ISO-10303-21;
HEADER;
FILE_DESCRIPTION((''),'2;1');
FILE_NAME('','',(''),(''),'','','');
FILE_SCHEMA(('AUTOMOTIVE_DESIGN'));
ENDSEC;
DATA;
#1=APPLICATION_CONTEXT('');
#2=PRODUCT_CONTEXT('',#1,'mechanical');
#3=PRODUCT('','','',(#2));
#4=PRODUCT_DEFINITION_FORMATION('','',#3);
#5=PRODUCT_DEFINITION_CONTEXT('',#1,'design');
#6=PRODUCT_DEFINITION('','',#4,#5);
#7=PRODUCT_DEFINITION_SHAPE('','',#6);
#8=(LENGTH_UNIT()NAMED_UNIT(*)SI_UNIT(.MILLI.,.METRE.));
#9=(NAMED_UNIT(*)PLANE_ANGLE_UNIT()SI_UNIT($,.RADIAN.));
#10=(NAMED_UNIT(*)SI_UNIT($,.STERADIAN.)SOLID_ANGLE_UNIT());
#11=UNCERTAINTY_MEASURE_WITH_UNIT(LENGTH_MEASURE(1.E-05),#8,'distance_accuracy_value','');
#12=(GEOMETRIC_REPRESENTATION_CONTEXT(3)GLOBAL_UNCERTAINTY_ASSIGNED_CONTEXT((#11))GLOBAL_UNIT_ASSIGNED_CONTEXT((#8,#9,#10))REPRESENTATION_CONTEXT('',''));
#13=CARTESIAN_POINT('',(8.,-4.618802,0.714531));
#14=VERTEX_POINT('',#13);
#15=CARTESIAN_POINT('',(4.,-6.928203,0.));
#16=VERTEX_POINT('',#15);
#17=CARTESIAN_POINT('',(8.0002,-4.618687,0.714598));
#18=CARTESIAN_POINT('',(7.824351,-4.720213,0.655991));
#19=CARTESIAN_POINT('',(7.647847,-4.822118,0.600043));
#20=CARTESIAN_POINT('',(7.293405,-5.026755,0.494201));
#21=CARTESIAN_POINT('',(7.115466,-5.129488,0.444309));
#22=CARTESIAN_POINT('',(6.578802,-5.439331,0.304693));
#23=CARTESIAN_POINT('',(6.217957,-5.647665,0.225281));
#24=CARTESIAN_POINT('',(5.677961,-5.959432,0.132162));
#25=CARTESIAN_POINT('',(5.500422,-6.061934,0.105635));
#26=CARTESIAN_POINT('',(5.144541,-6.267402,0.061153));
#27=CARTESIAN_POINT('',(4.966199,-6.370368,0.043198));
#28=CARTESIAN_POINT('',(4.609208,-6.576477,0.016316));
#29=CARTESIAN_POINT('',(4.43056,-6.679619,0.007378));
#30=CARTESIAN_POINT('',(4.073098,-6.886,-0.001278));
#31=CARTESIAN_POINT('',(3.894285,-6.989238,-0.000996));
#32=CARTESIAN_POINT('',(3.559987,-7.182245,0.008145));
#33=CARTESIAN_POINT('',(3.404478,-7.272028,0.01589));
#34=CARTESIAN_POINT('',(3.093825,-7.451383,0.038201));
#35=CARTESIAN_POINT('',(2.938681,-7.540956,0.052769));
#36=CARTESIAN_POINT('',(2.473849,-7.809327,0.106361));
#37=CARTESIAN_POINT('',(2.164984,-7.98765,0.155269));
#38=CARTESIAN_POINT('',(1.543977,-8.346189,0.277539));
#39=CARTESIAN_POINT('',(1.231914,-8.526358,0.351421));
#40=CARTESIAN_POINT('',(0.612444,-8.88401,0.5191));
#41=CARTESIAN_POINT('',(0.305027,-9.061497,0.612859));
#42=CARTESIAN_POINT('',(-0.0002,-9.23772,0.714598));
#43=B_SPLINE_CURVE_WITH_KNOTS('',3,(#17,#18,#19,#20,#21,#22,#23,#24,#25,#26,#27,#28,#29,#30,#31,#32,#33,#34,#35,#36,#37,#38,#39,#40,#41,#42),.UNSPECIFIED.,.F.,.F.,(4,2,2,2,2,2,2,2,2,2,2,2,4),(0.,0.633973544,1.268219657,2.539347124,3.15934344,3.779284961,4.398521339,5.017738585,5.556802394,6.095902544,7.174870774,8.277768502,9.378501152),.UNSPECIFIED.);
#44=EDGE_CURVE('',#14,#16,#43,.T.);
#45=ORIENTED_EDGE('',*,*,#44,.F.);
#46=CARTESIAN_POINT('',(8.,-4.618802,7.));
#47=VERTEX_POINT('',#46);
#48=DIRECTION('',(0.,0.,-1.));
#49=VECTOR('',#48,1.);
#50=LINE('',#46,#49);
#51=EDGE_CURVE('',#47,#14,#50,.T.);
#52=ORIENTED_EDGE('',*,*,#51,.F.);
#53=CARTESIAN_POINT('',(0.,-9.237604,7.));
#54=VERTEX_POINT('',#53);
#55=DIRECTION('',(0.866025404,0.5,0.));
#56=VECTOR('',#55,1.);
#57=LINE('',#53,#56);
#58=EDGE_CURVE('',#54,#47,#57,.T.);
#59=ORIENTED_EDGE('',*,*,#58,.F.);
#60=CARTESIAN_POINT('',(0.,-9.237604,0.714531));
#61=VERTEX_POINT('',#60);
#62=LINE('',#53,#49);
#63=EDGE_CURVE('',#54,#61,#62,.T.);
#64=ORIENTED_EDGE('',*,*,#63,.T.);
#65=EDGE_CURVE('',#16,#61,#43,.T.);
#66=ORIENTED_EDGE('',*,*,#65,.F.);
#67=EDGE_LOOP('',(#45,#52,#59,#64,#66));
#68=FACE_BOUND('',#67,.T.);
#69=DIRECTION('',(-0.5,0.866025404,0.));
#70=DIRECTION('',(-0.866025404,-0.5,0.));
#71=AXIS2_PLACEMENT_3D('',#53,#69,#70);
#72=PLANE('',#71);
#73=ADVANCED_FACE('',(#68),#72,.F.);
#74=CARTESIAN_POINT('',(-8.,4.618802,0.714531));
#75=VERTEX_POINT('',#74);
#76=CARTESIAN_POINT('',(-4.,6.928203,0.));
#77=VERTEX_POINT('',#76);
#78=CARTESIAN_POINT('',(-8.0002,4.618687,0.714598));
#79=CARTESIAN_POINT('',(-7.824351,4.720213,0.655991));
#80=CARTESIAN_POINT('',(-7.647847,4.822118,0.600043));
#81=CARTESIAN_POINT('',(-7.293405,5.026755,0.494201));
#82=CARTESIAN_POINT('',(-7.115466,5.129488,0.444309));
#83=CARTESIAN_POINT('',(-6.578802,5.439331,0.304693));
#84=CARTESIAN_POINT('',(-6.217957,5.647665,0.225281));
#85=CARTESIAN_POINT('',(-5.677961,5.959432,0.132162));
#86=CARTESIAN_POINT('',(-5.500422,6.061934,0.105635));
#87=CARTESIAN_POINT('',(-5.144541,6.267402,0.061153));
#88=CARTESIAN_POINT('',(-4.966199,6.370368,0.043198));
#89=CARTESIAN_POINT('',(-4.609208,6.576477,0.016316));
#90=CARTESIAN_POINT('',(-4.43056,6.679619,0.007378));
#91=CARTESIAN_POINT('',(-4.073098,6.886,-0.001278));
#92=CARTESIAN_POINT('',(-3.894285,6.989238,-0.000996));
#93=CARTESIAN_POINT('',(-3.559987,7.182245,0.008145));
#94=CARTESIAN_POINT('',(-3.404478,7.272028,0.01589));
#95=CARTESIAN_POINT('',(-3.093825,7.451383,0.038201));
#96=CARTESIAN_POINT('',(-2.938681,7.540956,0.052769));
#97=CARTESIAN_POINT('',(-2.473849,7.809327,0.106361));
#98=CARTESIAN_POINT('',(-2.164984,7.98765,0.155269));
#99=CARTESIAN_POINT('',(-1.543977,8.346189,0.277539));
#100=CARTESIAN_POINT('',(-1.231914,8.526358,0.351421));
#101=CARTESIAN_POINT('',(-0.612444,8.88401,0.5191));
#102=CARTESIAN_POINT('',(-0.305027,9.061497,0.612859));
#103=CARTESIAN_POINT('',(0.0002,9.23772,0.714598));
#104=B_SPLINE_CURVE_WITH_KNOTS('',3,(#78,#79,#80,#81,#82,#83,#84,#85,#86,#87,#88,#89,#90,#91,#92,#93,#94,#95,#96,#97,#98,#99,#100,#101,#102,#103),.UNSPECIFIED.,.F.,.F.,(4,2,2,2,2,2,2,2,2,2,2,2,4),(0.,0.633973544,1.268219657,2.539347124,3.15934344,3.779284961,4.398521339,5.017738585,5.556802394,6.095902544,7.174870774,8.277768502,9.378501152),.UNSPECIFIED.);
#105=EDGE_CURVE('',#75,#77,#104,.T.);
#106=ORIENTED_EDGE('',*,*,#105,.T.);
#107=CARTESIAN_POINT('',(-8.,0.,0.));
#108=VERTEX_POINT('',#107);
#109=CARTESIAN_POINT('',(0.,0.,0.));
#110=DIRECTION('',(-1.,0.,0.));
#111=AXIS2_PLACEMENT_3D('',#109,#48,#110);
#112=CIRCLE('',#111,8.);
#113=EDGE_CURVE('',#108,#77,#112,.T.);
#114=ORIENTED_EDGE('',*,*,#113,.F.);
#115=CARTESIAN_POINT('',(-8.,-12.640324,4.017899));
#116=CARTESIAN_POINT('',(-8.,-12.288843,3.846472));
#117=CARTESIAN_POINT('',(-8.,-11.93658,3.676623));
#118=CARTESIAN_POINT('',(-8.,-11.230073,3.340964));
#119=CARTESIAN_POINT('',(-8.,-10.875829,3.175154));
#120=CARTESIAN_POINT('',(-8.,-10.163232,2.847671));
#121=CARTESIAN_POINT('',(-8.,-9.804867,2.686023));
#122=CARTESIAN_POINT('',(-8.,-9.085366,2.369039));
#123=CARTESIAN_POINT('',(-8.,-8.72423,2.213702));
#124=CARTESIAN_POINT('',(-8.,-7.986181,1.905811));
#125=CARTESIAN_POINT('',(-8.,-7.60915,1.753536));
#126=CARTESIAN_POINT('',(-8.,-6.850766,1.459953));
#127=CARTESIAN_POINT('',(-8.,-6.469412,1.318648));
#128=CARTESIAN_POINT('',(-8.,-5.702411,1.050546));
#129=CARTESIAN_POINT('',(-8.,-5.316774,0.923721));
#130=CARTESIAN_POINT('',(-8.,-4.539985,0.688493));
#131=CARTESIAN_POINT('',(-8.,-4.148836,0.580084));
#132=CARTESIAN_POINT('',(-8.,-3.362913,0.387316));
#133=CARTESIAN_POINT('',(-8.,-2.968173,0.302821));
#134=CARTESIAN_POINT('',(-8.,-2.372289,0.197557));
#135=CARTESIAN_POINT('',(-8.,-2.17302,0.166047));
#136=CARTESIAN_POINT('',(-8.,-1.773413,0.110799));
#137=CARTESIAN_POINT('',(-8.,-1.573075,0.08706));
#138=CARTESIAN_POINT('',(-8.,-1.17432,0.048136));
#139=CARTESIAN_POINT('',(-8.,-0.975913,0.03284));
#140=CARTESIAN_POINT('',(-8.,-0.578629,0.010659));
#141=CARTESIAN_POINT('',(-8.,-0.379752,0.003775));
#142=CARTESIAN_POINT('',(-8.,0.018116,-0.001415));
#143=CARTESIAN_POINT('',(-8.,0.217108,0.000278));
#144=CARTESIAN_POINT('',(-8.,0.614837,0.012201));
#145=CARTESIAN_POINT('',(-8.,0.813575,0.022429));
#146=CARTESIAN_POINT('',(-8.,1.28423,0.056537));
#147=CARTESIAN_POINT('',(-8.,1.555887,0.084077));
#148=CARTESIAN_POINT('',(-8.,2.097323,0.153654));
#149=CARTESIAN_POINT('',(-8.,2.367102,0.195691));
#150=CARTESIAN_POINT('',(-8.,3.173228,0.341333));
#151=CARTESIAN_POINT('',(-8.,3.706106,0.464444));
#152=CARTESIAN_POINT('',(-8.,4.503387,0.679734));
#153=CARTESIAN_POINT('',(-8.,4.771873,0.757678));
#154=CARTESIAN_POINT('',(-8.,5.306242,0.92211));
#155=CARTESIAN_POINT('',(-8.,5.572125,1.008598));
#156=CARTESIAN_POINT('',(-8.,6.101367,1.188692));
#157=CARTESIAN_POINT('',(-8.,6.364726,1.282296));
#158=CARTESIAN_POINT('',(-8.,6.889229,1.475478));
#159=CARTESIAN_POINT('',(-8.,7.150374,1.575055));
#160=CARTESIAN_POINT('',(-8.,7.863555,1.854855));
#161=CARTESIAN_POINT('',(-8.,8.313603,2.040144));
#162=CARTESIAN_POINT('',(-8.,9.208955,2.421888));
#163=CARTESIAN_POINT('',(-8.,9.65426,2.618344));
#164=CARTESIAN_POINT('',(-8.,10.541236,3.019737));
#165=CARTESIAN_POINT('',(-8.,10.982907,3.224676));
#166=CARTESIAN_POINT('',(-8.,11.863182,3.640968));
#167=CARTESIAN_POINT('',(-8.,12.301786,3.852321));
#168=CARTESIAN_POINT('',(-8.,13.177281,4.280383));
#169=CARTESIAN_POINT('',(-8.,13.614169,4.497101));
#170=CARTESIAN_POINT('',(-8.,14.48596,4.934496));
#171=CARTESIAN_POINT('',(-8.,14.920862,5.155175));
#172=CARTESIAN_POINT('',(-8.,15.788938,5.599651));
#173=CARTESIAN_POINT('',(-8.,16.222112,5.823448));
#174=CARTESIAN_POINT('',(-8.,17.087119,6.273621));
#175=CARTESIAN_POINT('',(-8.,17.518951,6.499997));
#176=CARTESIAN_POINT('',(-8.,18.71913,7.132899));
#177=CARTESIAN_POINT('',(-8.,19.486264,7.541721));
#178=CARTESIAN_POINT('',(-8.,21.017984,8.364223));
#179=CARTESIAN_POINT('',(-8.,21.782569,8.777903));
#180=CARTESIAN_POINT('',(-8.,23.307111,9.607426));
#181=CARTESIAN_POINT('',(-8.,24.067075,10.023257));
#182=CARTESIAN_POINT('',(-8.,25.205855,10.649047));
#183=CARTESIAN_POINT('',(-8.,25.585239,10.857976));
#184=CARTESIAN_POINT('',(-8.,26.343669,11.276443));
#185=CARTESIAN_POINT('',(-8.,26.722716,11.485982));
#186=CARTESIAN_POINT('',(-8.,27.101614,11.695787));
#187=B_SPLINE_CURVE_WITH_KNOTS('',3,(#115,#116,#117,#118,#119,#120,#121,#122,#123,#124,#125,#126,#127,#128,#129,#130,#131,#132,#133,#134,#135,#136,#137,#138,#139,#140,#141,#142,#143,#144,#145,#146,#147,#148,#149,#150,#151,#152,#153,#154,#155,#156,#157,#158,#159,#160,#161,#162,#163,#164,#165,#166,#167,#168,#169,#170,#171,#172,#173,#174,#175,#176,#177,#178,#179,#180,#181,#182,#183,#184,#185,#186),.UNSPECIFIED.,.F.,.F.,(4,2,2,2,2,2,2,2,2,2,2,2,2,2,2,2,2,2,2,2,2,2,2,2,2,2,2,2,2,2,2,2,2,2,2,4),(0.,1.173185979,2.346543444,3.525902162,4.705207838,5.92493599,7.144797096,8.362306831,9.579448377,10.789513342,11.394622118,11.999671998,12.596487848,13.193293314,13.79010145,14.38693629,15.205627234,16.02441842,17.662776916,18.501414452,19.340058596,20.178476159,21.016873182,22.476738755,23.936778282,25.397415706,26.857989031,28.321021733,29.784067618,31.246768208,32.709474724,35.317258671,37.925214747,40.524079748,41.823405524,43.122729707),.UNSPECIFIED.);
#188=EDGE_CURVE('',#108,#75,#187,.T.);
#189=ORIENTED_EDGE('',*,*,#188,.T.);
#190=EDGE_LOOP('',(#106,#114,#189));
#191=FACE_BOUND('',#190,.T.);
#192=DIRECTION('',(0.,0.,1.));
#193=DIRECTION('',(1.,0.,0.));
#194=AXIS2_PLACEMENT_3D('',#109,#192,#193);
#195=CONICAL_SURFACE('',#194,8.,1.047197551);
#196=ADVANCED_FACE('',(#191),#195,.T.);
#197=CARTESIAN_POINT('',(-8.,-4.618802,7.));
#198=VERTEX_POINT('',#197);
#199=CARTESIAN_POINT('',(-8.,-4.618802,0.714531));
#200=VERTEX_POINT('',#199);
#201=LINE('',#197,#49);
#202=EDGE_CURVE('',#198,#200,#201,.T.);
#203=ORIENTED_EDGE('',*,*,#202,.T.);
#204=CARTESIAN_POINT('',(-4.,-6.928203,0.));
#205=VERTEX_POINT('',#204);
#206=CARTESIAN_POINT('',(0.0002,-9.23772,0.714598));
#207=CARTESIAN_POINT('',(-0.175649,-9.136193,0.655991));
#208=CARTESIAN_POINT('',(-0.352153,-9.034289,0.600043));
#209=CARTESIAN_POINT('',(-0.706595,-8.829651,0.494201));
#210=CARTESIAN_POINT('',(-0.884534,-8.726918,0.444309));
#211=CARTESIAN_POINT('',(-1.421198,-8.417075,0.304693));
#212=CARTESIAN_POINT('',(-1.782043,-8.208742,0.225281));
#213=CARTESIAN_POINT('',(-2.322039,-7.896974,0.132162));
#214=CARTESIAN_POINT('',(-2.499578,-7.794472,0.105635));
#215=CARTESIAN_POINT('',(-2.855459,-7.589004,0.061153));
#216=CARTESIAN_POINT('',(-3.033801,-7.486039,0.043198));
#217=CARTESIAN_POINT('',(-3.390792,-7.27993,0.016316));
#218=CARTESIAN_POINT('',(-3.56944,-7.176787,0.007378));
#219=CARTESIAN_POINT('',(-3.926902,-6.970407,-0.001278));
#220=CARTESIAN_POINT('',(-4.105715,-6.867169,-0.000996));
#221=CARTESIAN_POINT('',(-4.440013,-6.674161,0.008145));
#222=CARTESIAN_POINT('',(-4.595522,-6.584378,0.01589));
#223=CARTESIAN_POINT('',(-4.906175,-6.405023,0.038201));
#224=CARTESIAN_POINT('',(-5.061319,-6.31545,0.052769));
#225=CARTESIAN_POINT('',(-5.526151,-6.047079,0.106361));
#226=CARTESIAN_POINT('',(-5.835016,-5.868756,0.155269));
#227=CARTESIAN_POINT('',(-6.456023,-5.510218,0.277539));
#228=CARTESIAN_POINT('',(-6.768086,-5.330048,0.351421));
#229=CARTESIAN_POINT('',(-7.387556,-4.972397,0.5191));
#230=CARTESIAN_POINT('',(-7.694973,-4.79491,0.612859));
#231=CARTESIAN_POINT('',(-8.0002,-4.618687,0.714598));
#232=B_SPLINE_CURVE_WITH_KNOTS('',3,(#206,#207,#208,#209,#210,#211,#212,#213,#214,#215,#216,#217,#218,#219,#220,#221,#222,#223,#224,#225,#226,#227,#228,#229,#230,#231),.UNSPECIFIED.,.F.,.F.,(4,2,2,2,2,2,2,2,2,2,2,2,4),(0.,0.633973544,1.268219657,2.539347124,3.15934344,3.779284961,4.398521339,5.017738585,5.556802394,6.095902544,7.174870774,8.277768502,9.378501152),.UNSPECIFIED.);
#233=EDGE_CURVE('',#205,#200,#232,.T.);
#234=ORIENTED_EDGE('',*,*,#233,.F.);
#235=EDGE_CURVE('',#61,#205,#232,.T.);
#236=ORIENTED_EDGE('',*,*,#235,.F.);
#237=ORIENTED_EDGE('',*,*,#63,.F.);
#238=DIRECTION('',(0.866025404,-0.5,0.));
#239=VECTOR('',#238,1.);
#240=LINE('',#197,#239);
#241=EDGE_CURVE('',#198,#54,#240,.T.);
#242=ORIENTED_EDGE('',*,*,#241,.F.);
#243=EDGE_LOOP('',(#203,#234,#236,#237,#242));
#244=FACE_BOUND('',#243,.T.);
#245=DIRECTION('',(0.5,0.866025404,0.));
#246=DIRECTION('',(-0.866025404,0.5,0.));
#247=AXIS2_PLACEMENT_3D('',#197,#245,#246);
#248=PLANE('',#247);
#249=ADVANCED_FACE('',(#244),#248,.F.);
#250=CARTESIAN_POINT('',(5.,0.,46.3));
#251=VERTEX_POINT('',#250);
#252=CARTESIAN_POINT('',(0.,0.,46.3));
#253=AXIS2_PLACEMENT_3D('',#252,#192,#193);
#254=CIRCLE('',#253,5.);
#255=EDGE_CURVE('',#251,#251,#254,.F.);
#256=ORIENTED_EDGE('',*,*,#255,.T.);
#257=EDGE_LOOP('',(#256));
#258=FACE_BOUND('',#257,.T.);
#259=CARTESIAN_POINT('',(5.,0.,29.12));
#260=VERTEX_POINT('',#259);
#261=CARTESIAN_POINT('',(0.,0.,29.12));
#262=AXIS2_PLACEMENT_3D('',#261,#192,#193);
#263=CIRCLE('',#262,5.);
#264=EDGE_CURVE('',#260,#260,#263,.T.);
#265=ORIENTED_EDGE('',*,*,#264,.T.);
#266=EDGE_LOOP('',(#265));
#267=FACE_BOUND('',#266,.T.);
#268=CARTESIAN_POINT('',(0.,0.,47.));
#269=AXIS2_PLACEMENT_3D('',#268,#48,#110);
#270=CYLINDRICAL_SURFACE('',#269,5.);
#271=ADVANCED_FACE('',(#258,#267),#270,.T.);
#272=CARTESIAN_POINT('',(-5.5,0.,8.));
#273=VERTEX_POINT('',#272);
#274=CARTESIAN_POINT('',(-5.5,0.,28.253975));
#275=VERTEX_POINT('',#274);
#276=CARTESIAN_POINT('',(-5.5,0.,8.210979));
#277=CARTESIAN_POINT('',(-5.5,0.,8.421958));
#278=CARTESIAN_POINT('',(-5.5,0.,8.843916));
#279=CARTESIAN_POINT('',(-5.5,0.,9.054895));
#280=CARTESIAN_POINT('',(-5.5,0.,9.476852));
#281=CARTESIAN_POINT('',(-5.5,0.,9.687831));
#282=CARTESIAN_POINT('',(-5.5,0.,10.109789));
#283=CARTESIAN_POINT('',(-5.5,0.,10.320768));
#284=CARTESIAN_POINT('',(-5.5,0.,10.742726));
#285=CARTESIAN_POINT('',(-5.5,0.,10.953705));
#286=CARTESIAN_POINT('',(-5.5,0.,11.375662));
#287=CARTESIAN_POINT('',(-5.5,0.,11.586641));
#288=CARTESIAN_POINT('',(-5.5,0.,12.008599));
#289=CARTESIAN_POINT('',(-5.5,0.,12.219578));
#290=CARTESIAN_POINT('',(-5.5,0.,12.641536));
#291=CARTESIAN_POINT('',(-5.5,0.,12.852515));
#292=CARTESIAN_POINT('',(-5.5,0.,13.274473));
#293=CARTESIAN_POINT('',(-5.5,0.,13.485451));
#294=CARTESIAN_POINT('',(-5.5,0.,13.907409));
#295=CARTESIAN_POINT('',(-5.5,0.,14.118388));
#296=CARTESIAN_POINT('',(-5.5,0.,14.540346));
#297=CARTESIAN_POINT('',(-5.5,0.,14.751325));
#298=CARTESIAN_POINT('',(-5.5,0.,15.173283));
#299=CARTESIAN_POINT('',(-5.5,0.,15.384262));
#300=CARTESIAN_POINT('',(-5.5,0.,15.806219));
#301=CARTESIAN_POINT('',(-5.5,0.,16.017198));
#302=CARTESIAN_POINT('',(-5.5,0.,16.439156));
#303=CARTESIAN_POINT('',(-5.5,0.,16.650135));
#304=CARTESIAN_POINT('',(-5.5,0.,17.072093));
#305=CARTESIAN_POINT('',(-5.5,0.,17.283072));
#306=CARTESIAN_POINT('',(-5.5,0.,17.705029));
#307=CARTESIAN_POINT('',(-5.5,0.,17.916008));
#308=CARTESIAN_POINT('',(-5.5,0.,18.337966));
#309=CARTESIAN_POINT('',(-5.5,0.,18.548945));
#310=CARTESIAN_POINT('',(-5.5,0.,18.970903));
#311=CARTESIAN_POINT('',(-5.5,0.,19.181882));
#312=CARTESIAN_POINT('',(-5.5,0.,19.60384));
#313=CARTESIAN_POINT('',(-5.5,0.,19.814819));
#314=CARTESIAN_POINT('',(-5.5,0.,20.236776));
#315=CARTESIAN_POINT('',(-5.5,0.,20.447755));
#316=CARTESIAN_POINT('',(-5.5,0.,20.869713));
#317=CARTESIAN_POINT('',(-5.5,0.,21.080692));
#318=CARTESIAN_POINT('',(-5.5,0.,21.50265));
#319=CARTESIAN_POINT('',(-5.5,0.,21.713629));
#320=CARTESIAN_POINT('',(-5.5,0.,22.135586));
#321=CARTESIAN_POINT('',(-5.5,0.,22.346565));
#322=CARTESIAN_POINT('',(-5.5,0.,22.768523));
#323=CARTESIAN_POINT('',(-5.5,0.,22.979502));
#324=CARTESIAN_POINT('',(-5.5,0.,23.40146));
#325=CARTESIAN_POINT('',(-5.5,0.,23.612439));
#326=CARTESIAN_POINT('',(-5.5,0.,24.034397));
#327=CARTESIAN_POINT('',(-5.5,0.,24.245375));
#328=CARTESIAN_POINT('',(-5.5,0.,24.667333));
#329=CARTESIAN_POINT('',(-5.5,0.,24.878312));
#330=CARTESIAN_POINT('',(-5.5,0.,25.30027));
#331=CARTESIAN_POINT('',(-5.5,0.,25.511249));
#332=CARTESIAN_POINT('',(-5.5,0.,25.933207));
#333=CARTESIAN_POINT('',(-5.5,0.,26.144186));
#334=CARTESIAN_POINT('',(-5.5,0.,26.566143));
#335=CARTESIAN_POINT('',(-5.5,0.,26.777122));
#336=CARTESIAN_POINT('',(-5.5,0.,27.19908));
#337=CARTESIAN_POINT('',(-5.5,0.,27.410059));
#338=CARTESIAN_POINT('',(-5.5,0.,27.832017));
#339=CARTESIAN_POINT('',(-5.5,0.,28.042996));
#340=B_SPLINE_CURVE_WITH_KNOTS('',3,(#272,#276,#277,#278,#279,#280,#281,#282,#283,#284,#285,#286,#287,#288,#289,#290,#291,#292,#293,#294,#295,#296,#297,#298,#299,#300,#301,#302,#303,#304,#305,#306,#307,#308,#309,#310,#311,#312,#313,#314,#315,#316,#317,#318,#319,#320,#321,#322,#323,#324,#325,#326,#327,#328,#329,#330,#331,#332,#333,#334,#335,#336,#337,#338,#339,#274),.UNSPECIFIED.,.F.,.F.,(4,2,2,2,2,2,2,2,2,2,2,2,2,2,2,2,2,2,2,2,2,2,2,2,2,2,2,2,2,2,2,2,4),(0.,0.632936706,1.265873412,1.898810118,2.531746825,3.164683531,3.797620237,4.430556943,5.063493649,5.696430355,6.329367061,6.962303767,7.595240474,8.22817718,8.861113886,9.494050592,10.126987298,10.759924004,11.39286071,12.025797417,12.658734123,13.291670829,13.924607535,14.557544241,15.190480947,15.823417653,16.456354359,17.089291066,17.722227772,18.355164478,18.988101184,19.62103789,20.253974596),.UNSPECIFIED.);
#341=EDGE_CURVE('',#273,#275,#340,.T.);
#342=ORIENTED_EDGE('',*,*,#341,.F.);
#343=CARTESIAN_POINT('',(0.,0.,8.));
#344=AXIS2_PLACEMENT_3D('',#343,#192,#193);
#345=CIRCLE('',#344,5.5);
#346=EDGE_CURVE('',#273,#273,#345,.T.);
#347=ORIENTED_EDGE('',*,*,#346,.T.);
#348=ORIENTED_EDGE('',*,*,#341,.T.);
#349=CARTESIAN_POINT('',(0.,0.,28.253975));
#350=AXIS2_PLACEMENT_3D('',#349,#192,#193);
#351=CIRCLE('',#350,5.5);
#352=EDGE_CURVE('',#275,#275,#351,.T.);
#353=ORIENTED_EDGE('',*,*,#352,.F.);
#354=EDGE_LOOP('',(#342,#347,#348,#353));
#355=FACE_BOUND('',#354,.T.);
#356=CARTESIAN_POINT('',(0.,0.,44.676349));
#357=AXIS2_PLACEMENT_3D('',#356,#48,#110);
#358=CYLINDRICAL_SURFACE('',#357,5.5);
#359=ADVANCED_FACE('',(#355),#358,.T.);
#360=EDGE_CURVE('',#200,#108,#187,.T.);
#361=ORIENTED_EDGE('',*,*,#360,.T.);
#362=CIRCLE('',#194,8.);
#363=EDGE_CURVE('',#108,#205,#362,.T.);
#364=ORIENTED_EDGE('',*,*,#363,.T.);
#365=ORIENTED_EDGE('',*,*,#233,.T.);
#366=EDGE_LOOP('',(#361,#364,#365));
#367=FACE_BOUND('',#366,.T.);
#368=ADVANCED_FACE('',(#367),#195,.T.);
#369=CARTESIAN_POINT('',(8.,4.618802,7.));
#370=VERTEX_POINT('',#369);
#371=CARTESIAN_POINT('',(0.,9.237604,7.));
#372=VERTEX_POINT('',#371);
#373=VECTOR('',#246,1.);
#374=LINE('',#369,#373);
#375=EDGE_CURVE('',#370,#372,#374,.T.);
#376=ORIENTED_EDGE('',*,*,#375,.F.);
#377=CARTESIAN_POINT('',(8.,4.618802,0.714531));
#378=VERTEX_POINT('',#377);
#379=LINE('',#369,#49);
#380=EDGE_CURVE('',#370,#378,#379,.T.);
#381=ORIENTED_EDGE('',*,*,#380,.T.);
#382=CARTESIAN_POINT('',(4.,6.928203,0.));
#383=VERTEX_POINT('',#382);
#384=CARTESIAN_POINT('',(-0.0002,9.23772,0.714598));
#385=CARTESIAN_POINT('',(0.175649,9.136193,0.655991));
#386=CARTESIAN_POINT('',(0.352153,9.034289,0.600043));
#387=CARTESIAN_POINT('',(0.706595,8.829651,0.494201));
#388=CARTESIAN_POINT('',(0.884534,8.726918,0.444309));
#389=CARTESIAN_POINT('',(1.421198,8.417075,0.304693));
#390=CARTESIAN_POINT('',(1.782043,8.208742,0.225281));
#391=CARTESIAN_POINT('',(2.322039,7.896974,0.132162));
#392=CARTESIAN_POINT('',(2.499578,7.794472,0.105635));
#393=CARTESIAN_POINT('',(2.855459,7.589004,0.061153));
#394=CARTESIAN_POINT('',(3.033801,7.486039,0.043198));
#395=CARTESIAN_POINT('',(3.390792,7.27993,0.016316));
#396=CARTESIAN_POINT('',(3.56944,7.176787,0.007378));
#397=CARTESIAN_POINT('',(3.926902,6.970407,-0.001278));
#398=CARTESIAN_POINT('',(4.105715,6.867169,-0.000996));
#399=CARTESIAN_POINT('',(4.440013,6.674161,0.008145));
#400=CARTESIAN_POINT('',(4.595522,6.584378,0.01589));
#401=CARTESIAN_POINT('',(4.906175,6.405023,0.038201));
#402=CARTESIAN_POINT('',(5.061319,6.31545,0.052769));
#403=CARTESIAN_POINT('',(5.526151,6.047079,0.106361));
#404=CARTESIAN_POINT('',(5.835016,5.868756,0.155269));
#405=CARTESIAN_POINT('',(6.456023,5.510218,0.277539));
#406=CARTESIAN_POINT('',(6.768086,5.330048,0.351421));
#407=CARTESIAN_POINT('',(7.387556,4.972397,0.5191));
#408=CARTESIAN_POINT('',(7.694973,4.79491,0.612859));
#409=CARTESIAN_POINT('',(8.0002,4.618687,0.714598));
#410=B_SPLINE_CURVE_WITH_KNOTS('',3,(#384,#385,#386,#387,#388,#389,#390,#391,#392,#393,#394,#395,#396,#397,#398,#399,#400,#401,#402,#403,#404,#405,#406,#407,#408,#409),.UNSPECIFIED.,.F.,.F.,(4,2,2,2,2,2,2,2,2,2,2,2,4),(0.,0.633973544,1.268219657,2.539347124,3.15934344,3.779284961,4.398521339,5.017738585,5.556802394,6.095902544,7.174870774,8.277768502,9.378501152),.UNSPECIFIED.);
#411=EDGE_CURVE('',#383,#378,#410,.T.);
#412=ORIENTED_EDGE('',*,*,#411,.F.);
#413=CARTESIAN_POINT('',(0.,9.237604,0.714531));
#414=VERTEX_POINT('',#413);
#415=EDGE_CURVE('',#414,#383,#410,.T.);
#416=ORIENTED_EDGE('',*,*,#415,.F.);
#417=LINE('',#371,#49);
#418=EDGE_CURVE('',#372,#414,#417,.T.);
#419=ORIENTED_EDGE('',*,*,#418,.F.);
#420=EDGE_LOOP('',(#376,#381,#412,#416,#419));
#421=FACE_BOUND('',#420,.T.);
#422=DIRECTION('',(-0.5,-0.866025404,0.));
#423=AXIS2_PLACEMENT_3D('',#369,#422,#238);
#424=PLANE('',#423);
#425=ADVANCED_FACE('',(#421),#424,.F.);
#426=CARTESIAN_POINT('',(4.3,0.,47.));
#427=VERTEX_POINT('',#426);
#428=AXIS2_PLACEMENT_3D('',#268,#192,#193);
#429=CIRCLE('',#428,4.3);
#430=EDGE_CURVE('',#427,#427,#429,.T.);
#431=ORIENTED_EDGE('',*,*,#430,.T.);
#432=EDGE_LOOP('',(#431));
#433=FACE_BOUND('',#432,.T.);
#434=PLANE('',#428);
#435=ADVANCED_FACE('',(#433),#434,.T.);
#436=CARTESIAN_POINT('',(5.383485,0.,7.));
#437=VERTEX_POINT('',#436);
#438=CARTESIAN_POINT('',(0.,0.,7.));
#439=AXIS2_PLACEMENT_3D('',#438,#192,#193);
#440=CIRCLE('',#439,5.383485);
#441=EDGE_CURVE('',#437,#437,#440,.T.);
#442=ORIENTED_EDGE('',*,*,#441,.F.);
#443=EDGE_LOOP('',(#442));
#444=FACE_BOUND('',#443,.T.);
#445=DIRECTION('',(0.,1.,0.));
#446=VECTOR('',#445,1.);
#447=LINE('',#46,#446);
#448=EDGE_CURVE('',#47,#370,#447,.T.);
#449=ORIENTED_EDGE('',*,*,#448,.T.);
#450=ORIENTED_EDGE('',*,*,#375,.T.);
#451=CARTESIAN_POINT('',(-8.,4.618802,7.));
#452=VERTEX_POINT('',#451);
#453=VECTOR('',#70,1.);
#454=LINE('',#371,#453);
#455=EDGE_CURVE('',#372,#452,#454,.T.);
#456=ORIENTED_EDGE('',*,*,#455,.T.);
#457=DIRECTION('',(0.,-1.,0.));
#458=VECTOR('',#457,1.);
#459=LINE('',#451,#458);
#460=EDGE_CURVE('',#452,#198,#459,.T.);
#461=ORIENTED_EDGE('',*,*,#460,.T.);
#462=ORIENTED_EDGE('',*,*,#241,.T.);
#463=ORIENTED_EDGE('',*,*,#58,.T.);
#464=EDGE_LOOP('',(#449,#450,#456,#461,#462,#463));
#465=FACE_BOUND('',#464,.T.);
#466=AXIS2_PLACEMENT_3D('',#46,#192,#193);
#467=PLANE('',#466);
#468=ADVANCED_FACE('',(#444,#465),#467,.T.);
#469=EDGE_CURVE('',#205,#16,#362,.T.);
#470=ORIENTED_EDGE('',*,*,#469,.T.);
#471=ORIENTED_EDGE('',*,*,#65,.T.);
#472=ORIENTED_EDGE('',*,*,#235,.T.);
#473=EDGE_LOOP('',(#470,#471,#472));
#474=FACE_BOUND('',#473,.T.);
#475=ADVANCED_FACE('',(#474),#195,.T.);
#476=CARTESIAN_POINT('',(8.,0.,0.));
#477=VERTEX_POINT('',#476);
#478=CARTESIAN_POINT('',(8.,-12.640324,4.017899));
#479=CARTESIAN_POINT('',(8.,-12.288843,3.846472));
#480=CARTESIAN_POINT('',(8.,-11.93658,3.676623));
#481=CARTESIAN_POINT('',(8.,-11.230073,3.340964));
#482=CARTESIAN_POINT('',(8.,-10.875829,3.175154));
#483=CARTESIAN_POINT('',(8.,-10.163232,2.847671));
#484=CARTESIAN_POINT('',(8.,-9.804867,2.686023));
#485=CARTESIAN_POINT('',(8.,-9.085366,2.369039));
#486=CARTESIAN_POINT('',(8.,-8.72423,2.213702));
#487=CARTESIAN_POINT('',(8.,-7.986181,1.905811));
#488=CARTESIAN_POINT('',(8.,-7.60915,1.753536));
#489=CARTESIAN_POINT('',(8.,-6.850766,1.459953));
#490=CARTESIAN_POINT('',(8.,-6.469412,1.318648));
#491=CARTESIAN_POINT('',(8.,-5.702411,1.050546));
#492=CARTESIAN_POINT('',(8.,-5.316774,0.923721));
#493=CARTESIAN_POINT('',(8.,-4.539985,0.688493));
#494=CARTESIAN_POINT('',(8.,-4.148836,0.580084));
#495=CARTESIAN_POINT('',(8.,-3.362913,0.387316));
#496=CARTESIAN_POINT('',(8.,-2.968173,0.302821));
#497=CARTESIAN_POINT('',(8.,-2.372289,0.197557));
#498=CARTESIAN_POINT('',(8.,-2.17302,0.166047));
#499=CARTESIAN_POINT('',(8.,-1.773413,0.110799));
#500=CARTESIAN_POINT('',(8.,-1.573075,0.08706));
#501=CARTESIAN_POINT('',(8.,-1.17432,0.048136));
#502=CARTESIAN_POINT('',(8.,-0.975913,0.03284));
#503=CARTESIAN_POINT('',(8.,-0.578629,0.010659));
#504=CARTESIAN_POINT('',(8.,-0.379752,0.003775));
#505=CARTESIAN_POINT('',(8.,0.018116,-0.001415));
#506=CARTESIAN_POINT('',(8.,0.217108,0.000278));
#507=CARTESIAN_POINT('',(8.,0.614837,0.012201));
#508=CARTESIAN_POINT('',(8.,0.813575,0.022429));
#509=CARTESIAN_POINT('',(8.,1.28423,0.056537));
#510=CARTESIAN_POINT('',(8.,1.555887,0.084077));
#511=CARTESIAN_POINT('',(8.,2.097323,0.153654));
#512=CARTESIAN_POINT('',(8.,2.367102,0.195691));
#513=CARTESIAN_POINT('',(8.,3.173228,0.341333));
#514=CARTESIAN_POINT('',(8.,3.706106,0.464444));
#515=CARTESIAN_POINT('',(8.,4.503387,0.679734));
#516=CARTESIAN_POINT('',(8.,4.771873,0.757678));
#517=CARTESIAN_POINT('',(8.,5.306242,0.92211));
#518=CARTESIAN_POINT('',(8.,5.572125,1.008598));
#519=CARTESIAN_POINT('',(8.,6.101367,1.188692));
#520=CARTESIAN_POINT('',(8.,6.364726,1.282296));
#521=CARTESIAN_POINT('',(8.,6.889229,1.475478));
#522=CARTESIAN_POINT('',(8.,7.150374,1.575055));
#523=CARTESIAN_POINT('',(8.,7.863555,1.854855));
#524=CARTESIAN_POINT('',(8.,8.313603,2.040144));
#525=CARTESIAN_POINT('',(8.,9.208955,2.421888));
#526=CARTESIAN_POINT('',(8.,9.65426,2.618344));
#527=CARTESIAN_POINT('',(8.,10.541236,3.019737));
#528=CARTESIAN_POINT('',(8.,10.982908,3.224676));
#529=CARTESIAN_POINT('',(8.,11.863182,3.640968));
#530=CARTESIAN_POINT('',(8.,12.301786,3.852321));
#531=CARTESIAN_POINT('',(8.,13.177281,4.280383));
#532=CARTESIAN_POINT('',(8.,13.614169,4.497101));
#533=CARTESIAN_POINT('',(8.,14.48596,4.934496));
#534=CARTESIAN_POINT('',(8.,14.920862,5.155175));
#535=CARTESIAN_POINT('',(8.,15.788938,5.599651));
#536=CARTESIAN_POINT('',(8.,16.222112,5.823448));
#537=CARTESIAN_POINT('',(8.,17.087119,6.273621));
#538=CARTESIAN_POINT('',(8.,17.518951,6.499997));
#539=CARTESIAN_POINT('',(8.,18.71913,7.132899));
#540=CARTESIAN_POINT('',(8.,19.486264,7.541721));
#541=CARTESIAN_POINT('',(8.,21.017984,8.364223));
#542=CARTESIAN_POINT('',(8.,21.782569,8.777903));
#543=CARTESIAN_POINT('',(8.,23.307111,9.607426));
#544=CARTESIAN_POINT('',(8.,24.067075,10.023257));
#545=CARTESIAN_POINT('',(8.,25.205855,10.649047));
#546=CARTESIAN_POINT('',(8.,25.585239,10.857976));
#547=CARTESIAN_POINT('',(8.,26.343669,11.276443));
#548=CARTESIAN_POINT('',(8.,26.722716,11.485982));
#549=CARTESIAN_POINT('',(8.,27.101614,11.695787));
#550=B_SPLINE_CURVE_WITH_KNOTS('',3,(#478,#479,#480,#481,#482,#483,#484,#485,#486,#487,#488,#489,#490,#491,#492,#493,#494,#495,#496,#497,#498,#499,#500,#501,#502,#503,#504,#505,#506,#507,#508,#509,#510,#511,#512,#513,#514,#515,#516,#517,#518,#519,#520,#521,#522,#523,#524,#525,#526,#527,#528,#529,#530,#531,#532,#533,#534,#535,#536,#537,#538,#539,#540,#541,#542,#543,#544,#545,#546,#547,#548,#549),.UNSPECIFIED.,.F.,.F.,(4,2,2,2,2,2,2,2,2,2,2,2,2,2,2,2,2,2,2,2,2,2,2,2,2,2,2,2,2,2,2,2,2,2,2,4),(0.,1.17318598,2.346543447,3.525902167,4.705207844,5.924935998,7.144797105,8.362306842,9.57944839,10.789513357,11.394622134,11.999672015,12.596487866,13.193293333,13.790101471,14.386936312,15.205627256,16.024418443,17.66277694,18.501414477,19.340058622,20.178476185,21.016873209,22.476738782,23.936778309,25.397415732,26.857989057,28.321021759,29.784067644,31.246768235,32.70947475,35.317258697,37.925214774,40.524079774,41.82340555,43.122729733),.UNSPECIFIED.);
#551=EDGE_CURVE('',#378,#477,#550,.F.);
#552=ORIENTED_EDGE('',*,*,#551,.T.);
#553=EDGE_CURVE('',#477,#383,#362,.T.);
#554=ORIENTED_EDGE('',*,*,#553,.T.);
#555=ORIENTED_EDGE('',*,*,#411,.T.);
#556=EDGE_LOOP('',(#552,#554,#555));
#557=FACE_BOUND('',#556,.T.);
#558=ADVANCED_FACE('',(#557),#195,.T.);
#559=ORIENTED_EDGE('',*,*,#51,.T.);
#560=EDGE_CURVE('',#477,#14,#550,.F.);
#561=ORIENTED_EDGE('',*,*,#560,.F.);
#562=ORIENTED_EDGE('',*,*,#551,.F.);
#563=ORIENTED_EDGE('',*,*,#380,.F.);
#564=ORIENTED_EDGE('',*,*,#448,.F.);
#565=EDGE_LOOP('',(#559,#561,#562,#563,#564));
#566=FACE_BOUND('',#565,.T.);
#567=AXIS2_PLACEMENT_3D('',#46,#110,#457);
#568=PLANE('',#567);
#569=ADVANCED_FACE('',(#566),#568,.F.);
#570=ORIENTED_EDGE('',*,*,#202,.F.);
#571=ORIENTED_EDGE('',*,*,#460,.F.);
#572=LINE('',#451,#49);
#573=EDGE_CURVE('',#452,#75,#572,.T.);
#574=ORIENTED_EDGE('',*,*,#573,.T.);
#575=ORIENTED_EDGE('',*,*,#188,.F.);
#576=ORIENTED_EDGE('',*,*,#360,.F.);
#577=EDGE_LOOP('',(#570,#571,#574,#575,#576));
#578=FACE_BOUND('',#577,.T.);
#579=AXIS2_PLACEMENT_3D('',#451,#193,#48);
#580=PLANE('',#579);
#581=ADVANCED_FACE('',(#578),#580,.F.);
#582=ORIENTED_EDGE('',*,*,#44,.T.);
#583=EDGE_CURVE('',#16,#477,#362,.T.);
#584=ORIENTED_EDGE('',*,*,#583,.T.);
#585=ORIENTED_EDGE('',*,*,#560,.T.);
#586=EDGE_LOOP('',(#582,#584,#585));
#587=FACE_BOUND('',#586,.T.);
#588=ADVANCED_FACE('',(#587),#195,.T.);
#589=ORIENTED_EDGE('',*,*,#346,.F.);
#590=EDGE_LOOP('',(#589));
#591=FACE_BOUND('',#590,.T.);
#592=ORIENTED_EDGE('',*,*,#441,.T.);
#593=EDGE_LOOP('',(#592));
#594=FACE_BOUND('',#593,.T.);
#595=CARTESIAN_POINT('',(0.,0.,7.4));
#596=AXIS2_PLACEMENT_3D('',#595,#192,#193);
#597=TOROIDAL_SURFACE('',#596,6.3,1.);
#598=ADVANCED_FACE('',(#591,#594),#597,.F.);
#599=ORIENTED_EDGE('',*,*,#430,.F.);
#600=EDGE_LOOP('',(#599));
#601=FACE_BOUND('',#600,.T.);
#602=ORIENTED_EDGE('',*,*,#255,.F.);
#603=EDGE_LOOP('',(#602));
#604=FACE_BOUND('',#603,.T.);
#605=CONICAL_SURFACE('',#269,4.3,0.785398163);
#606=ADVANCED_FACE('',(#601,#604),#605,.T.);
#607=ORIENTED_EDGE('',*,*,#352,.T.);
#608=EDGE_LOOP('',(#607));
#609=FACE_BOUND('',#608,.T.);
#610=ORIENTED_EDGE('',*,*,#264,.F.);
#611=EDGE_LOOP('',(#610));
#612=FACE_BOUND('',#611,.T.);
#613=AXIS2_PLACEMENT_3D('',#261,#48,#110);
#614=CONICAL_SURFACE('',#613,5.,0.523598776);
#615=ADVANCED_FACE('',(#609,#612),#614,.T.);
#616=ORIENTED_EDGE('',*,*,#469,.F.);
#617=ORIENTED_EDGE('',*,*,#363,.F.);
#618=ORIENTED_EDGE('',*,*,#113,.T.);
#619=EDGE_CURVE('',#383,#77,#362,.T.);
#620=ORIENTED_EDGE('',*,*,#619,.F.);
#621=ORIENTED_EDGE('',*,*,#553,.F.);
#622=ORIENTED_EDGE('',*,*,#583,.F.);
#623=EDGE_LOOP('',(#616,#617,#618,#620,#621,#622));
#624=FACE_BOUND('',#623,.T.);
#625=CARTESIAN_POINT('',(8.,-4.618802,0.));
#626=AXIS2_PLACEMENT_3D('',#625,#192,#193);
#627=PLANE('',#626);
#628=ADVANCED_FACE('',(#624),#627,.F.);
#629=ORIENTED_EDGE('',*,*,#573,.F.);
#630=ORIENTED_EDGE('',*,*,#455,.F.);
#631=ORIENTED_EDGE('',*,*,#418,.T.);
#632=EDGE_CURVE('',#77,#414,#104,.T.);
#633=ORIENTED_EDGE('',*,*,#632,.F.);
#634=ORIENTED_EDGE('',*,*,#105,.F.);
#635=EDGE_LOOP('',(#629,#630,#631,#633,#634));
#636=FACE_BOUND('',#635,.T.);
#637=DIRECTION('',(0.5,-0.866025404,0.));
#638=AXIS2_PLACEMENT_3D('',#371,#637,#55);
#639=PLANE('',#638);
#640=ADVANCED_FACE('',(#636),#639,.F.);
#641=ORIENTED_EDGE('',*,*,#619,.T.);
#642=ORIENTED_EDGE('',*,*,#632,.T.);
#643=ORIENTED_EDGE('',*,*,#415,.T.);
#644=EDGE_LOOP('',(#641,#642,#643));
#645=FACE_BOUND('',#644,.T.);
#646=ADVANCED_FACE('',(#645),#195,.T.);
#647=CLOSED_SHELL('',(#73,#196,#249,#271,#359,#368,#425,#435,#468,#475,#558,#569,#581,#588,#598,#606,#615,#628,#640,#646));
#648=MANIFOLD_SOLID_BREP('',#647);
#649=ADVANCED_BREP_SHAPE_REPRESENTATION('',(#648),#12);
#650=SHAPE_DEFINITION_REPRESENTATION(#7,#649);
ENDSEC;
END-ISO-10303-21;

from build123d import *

# Parameters (mm, degrees)
VYSUNOUT1_DEPTH = 7
SKICA5_R        = 5
VYSUNOUT4_DEPTH = 40
ZKOSIT1_SIZE    = 0.7
SKICA3_R        = 5.3
VYSUNOUT2_DEPTH = 1
SKICA4_R        = 5.5
VYSUNOUT3_DEPTH = 21.12


with BuildPart() as part:
    # Skica1 → Vysunout1 (new body)
    with BuildSketch(Plane.XY):
        Polygon((8, -4.618802154), (8, 4.618802154), (0, 9.237604307), (-8, 4.618802154), (-8, -4.618802154), (0, -9.237604307), align=None)
    extrude(amount=VYSUNOUT1_DEPTH)

    # Skica2 → Odebrat otočením1 (revolve, cut)
    with BuildSketch(Plane(origin=(0, 0, 0), x_dir=(1, 0, 0), z_dir=(0, 1, 0))):
        Polygon((8, 0), (20.124355653, 0), (20.124355653, -7), align=None)
    revolve(axis=Axis((0, 0, 0), (0, 0, 1)), mode=Mode.SUBTRACT)

    # Skica5 → Vysunout4 (add)
    with BuildSketch(Plane.XY.offset(7)):
        Circle(SKICA5_R)
    extrude(amount=VYSUNOUT4_DEPTH)

    # Zkosit1
    zkosit1_edges = [part.edges().sort_by_distance(p)[0] for p in [
        (-5, 0, 47),
    ]]
    chamfer(zkosit1_edges, length=ZKOSIT1_SIZE)

    # Skica3 → Vysunout2 (add)
    with BuildSketch(Plane.XY.offset(7)):
        Circle(SKICA3_R)
    extrude(amount=VYSUNOUT2_DEPTH)

    # Skica4 → Vysunout3 (add)
    with BuildSketch(Plane.XY.offset(8)):
        with Locations(Location((0, 0, 0), (0, 0, 180))):
            Circle(SKICA4_R)
    extrude(amount=VYSUNOUT3_DEPTH)

    # Skica6 → Odebrat otočením2 (revolve, cut)
    with BuildSketch(Plane(origin=(0, 0, 0), x_dir=(1, 0, 0), z_dir=(0, 1, 0))):
        Polygon((-5.5, -29.12), (-5.5, -28.253974596), (-5, -29.12), align=None)
    revolve(axis=Axis((0, 0, 29.12), (0, 0, -1)), mode=Mode.SUBTRACT)

    # Skica7 → Otočit kolem osy1 (revolve)
    with BuildSketch(Plane(origin=(0, 0, 0), x_dir=(1, 0, 0), z_dir=(0, 1, 0))):
        with BuildLine():
            ThreePointArc((5.3, -7.4), (5.321093687, -7.195690356), (5.383484861, -7))
            Line((5.383484861, -7), (5.3, -7))
            Line((5.3, -7), (5.3, -7.4))
        make_face()
        with BuildLine():
            ThreePointArc((5.5, -8), (5.351316702, -7.716227766), (5.3, -7.4))
            Line((5.3, -7.4), (5.3, -8))
            Line((5.3, -8), (5.5, -8))
        make_face()
    revolve(axis=Axis((0, 0, 28.253974596), (0, 0, -1)))


solid = part.part
